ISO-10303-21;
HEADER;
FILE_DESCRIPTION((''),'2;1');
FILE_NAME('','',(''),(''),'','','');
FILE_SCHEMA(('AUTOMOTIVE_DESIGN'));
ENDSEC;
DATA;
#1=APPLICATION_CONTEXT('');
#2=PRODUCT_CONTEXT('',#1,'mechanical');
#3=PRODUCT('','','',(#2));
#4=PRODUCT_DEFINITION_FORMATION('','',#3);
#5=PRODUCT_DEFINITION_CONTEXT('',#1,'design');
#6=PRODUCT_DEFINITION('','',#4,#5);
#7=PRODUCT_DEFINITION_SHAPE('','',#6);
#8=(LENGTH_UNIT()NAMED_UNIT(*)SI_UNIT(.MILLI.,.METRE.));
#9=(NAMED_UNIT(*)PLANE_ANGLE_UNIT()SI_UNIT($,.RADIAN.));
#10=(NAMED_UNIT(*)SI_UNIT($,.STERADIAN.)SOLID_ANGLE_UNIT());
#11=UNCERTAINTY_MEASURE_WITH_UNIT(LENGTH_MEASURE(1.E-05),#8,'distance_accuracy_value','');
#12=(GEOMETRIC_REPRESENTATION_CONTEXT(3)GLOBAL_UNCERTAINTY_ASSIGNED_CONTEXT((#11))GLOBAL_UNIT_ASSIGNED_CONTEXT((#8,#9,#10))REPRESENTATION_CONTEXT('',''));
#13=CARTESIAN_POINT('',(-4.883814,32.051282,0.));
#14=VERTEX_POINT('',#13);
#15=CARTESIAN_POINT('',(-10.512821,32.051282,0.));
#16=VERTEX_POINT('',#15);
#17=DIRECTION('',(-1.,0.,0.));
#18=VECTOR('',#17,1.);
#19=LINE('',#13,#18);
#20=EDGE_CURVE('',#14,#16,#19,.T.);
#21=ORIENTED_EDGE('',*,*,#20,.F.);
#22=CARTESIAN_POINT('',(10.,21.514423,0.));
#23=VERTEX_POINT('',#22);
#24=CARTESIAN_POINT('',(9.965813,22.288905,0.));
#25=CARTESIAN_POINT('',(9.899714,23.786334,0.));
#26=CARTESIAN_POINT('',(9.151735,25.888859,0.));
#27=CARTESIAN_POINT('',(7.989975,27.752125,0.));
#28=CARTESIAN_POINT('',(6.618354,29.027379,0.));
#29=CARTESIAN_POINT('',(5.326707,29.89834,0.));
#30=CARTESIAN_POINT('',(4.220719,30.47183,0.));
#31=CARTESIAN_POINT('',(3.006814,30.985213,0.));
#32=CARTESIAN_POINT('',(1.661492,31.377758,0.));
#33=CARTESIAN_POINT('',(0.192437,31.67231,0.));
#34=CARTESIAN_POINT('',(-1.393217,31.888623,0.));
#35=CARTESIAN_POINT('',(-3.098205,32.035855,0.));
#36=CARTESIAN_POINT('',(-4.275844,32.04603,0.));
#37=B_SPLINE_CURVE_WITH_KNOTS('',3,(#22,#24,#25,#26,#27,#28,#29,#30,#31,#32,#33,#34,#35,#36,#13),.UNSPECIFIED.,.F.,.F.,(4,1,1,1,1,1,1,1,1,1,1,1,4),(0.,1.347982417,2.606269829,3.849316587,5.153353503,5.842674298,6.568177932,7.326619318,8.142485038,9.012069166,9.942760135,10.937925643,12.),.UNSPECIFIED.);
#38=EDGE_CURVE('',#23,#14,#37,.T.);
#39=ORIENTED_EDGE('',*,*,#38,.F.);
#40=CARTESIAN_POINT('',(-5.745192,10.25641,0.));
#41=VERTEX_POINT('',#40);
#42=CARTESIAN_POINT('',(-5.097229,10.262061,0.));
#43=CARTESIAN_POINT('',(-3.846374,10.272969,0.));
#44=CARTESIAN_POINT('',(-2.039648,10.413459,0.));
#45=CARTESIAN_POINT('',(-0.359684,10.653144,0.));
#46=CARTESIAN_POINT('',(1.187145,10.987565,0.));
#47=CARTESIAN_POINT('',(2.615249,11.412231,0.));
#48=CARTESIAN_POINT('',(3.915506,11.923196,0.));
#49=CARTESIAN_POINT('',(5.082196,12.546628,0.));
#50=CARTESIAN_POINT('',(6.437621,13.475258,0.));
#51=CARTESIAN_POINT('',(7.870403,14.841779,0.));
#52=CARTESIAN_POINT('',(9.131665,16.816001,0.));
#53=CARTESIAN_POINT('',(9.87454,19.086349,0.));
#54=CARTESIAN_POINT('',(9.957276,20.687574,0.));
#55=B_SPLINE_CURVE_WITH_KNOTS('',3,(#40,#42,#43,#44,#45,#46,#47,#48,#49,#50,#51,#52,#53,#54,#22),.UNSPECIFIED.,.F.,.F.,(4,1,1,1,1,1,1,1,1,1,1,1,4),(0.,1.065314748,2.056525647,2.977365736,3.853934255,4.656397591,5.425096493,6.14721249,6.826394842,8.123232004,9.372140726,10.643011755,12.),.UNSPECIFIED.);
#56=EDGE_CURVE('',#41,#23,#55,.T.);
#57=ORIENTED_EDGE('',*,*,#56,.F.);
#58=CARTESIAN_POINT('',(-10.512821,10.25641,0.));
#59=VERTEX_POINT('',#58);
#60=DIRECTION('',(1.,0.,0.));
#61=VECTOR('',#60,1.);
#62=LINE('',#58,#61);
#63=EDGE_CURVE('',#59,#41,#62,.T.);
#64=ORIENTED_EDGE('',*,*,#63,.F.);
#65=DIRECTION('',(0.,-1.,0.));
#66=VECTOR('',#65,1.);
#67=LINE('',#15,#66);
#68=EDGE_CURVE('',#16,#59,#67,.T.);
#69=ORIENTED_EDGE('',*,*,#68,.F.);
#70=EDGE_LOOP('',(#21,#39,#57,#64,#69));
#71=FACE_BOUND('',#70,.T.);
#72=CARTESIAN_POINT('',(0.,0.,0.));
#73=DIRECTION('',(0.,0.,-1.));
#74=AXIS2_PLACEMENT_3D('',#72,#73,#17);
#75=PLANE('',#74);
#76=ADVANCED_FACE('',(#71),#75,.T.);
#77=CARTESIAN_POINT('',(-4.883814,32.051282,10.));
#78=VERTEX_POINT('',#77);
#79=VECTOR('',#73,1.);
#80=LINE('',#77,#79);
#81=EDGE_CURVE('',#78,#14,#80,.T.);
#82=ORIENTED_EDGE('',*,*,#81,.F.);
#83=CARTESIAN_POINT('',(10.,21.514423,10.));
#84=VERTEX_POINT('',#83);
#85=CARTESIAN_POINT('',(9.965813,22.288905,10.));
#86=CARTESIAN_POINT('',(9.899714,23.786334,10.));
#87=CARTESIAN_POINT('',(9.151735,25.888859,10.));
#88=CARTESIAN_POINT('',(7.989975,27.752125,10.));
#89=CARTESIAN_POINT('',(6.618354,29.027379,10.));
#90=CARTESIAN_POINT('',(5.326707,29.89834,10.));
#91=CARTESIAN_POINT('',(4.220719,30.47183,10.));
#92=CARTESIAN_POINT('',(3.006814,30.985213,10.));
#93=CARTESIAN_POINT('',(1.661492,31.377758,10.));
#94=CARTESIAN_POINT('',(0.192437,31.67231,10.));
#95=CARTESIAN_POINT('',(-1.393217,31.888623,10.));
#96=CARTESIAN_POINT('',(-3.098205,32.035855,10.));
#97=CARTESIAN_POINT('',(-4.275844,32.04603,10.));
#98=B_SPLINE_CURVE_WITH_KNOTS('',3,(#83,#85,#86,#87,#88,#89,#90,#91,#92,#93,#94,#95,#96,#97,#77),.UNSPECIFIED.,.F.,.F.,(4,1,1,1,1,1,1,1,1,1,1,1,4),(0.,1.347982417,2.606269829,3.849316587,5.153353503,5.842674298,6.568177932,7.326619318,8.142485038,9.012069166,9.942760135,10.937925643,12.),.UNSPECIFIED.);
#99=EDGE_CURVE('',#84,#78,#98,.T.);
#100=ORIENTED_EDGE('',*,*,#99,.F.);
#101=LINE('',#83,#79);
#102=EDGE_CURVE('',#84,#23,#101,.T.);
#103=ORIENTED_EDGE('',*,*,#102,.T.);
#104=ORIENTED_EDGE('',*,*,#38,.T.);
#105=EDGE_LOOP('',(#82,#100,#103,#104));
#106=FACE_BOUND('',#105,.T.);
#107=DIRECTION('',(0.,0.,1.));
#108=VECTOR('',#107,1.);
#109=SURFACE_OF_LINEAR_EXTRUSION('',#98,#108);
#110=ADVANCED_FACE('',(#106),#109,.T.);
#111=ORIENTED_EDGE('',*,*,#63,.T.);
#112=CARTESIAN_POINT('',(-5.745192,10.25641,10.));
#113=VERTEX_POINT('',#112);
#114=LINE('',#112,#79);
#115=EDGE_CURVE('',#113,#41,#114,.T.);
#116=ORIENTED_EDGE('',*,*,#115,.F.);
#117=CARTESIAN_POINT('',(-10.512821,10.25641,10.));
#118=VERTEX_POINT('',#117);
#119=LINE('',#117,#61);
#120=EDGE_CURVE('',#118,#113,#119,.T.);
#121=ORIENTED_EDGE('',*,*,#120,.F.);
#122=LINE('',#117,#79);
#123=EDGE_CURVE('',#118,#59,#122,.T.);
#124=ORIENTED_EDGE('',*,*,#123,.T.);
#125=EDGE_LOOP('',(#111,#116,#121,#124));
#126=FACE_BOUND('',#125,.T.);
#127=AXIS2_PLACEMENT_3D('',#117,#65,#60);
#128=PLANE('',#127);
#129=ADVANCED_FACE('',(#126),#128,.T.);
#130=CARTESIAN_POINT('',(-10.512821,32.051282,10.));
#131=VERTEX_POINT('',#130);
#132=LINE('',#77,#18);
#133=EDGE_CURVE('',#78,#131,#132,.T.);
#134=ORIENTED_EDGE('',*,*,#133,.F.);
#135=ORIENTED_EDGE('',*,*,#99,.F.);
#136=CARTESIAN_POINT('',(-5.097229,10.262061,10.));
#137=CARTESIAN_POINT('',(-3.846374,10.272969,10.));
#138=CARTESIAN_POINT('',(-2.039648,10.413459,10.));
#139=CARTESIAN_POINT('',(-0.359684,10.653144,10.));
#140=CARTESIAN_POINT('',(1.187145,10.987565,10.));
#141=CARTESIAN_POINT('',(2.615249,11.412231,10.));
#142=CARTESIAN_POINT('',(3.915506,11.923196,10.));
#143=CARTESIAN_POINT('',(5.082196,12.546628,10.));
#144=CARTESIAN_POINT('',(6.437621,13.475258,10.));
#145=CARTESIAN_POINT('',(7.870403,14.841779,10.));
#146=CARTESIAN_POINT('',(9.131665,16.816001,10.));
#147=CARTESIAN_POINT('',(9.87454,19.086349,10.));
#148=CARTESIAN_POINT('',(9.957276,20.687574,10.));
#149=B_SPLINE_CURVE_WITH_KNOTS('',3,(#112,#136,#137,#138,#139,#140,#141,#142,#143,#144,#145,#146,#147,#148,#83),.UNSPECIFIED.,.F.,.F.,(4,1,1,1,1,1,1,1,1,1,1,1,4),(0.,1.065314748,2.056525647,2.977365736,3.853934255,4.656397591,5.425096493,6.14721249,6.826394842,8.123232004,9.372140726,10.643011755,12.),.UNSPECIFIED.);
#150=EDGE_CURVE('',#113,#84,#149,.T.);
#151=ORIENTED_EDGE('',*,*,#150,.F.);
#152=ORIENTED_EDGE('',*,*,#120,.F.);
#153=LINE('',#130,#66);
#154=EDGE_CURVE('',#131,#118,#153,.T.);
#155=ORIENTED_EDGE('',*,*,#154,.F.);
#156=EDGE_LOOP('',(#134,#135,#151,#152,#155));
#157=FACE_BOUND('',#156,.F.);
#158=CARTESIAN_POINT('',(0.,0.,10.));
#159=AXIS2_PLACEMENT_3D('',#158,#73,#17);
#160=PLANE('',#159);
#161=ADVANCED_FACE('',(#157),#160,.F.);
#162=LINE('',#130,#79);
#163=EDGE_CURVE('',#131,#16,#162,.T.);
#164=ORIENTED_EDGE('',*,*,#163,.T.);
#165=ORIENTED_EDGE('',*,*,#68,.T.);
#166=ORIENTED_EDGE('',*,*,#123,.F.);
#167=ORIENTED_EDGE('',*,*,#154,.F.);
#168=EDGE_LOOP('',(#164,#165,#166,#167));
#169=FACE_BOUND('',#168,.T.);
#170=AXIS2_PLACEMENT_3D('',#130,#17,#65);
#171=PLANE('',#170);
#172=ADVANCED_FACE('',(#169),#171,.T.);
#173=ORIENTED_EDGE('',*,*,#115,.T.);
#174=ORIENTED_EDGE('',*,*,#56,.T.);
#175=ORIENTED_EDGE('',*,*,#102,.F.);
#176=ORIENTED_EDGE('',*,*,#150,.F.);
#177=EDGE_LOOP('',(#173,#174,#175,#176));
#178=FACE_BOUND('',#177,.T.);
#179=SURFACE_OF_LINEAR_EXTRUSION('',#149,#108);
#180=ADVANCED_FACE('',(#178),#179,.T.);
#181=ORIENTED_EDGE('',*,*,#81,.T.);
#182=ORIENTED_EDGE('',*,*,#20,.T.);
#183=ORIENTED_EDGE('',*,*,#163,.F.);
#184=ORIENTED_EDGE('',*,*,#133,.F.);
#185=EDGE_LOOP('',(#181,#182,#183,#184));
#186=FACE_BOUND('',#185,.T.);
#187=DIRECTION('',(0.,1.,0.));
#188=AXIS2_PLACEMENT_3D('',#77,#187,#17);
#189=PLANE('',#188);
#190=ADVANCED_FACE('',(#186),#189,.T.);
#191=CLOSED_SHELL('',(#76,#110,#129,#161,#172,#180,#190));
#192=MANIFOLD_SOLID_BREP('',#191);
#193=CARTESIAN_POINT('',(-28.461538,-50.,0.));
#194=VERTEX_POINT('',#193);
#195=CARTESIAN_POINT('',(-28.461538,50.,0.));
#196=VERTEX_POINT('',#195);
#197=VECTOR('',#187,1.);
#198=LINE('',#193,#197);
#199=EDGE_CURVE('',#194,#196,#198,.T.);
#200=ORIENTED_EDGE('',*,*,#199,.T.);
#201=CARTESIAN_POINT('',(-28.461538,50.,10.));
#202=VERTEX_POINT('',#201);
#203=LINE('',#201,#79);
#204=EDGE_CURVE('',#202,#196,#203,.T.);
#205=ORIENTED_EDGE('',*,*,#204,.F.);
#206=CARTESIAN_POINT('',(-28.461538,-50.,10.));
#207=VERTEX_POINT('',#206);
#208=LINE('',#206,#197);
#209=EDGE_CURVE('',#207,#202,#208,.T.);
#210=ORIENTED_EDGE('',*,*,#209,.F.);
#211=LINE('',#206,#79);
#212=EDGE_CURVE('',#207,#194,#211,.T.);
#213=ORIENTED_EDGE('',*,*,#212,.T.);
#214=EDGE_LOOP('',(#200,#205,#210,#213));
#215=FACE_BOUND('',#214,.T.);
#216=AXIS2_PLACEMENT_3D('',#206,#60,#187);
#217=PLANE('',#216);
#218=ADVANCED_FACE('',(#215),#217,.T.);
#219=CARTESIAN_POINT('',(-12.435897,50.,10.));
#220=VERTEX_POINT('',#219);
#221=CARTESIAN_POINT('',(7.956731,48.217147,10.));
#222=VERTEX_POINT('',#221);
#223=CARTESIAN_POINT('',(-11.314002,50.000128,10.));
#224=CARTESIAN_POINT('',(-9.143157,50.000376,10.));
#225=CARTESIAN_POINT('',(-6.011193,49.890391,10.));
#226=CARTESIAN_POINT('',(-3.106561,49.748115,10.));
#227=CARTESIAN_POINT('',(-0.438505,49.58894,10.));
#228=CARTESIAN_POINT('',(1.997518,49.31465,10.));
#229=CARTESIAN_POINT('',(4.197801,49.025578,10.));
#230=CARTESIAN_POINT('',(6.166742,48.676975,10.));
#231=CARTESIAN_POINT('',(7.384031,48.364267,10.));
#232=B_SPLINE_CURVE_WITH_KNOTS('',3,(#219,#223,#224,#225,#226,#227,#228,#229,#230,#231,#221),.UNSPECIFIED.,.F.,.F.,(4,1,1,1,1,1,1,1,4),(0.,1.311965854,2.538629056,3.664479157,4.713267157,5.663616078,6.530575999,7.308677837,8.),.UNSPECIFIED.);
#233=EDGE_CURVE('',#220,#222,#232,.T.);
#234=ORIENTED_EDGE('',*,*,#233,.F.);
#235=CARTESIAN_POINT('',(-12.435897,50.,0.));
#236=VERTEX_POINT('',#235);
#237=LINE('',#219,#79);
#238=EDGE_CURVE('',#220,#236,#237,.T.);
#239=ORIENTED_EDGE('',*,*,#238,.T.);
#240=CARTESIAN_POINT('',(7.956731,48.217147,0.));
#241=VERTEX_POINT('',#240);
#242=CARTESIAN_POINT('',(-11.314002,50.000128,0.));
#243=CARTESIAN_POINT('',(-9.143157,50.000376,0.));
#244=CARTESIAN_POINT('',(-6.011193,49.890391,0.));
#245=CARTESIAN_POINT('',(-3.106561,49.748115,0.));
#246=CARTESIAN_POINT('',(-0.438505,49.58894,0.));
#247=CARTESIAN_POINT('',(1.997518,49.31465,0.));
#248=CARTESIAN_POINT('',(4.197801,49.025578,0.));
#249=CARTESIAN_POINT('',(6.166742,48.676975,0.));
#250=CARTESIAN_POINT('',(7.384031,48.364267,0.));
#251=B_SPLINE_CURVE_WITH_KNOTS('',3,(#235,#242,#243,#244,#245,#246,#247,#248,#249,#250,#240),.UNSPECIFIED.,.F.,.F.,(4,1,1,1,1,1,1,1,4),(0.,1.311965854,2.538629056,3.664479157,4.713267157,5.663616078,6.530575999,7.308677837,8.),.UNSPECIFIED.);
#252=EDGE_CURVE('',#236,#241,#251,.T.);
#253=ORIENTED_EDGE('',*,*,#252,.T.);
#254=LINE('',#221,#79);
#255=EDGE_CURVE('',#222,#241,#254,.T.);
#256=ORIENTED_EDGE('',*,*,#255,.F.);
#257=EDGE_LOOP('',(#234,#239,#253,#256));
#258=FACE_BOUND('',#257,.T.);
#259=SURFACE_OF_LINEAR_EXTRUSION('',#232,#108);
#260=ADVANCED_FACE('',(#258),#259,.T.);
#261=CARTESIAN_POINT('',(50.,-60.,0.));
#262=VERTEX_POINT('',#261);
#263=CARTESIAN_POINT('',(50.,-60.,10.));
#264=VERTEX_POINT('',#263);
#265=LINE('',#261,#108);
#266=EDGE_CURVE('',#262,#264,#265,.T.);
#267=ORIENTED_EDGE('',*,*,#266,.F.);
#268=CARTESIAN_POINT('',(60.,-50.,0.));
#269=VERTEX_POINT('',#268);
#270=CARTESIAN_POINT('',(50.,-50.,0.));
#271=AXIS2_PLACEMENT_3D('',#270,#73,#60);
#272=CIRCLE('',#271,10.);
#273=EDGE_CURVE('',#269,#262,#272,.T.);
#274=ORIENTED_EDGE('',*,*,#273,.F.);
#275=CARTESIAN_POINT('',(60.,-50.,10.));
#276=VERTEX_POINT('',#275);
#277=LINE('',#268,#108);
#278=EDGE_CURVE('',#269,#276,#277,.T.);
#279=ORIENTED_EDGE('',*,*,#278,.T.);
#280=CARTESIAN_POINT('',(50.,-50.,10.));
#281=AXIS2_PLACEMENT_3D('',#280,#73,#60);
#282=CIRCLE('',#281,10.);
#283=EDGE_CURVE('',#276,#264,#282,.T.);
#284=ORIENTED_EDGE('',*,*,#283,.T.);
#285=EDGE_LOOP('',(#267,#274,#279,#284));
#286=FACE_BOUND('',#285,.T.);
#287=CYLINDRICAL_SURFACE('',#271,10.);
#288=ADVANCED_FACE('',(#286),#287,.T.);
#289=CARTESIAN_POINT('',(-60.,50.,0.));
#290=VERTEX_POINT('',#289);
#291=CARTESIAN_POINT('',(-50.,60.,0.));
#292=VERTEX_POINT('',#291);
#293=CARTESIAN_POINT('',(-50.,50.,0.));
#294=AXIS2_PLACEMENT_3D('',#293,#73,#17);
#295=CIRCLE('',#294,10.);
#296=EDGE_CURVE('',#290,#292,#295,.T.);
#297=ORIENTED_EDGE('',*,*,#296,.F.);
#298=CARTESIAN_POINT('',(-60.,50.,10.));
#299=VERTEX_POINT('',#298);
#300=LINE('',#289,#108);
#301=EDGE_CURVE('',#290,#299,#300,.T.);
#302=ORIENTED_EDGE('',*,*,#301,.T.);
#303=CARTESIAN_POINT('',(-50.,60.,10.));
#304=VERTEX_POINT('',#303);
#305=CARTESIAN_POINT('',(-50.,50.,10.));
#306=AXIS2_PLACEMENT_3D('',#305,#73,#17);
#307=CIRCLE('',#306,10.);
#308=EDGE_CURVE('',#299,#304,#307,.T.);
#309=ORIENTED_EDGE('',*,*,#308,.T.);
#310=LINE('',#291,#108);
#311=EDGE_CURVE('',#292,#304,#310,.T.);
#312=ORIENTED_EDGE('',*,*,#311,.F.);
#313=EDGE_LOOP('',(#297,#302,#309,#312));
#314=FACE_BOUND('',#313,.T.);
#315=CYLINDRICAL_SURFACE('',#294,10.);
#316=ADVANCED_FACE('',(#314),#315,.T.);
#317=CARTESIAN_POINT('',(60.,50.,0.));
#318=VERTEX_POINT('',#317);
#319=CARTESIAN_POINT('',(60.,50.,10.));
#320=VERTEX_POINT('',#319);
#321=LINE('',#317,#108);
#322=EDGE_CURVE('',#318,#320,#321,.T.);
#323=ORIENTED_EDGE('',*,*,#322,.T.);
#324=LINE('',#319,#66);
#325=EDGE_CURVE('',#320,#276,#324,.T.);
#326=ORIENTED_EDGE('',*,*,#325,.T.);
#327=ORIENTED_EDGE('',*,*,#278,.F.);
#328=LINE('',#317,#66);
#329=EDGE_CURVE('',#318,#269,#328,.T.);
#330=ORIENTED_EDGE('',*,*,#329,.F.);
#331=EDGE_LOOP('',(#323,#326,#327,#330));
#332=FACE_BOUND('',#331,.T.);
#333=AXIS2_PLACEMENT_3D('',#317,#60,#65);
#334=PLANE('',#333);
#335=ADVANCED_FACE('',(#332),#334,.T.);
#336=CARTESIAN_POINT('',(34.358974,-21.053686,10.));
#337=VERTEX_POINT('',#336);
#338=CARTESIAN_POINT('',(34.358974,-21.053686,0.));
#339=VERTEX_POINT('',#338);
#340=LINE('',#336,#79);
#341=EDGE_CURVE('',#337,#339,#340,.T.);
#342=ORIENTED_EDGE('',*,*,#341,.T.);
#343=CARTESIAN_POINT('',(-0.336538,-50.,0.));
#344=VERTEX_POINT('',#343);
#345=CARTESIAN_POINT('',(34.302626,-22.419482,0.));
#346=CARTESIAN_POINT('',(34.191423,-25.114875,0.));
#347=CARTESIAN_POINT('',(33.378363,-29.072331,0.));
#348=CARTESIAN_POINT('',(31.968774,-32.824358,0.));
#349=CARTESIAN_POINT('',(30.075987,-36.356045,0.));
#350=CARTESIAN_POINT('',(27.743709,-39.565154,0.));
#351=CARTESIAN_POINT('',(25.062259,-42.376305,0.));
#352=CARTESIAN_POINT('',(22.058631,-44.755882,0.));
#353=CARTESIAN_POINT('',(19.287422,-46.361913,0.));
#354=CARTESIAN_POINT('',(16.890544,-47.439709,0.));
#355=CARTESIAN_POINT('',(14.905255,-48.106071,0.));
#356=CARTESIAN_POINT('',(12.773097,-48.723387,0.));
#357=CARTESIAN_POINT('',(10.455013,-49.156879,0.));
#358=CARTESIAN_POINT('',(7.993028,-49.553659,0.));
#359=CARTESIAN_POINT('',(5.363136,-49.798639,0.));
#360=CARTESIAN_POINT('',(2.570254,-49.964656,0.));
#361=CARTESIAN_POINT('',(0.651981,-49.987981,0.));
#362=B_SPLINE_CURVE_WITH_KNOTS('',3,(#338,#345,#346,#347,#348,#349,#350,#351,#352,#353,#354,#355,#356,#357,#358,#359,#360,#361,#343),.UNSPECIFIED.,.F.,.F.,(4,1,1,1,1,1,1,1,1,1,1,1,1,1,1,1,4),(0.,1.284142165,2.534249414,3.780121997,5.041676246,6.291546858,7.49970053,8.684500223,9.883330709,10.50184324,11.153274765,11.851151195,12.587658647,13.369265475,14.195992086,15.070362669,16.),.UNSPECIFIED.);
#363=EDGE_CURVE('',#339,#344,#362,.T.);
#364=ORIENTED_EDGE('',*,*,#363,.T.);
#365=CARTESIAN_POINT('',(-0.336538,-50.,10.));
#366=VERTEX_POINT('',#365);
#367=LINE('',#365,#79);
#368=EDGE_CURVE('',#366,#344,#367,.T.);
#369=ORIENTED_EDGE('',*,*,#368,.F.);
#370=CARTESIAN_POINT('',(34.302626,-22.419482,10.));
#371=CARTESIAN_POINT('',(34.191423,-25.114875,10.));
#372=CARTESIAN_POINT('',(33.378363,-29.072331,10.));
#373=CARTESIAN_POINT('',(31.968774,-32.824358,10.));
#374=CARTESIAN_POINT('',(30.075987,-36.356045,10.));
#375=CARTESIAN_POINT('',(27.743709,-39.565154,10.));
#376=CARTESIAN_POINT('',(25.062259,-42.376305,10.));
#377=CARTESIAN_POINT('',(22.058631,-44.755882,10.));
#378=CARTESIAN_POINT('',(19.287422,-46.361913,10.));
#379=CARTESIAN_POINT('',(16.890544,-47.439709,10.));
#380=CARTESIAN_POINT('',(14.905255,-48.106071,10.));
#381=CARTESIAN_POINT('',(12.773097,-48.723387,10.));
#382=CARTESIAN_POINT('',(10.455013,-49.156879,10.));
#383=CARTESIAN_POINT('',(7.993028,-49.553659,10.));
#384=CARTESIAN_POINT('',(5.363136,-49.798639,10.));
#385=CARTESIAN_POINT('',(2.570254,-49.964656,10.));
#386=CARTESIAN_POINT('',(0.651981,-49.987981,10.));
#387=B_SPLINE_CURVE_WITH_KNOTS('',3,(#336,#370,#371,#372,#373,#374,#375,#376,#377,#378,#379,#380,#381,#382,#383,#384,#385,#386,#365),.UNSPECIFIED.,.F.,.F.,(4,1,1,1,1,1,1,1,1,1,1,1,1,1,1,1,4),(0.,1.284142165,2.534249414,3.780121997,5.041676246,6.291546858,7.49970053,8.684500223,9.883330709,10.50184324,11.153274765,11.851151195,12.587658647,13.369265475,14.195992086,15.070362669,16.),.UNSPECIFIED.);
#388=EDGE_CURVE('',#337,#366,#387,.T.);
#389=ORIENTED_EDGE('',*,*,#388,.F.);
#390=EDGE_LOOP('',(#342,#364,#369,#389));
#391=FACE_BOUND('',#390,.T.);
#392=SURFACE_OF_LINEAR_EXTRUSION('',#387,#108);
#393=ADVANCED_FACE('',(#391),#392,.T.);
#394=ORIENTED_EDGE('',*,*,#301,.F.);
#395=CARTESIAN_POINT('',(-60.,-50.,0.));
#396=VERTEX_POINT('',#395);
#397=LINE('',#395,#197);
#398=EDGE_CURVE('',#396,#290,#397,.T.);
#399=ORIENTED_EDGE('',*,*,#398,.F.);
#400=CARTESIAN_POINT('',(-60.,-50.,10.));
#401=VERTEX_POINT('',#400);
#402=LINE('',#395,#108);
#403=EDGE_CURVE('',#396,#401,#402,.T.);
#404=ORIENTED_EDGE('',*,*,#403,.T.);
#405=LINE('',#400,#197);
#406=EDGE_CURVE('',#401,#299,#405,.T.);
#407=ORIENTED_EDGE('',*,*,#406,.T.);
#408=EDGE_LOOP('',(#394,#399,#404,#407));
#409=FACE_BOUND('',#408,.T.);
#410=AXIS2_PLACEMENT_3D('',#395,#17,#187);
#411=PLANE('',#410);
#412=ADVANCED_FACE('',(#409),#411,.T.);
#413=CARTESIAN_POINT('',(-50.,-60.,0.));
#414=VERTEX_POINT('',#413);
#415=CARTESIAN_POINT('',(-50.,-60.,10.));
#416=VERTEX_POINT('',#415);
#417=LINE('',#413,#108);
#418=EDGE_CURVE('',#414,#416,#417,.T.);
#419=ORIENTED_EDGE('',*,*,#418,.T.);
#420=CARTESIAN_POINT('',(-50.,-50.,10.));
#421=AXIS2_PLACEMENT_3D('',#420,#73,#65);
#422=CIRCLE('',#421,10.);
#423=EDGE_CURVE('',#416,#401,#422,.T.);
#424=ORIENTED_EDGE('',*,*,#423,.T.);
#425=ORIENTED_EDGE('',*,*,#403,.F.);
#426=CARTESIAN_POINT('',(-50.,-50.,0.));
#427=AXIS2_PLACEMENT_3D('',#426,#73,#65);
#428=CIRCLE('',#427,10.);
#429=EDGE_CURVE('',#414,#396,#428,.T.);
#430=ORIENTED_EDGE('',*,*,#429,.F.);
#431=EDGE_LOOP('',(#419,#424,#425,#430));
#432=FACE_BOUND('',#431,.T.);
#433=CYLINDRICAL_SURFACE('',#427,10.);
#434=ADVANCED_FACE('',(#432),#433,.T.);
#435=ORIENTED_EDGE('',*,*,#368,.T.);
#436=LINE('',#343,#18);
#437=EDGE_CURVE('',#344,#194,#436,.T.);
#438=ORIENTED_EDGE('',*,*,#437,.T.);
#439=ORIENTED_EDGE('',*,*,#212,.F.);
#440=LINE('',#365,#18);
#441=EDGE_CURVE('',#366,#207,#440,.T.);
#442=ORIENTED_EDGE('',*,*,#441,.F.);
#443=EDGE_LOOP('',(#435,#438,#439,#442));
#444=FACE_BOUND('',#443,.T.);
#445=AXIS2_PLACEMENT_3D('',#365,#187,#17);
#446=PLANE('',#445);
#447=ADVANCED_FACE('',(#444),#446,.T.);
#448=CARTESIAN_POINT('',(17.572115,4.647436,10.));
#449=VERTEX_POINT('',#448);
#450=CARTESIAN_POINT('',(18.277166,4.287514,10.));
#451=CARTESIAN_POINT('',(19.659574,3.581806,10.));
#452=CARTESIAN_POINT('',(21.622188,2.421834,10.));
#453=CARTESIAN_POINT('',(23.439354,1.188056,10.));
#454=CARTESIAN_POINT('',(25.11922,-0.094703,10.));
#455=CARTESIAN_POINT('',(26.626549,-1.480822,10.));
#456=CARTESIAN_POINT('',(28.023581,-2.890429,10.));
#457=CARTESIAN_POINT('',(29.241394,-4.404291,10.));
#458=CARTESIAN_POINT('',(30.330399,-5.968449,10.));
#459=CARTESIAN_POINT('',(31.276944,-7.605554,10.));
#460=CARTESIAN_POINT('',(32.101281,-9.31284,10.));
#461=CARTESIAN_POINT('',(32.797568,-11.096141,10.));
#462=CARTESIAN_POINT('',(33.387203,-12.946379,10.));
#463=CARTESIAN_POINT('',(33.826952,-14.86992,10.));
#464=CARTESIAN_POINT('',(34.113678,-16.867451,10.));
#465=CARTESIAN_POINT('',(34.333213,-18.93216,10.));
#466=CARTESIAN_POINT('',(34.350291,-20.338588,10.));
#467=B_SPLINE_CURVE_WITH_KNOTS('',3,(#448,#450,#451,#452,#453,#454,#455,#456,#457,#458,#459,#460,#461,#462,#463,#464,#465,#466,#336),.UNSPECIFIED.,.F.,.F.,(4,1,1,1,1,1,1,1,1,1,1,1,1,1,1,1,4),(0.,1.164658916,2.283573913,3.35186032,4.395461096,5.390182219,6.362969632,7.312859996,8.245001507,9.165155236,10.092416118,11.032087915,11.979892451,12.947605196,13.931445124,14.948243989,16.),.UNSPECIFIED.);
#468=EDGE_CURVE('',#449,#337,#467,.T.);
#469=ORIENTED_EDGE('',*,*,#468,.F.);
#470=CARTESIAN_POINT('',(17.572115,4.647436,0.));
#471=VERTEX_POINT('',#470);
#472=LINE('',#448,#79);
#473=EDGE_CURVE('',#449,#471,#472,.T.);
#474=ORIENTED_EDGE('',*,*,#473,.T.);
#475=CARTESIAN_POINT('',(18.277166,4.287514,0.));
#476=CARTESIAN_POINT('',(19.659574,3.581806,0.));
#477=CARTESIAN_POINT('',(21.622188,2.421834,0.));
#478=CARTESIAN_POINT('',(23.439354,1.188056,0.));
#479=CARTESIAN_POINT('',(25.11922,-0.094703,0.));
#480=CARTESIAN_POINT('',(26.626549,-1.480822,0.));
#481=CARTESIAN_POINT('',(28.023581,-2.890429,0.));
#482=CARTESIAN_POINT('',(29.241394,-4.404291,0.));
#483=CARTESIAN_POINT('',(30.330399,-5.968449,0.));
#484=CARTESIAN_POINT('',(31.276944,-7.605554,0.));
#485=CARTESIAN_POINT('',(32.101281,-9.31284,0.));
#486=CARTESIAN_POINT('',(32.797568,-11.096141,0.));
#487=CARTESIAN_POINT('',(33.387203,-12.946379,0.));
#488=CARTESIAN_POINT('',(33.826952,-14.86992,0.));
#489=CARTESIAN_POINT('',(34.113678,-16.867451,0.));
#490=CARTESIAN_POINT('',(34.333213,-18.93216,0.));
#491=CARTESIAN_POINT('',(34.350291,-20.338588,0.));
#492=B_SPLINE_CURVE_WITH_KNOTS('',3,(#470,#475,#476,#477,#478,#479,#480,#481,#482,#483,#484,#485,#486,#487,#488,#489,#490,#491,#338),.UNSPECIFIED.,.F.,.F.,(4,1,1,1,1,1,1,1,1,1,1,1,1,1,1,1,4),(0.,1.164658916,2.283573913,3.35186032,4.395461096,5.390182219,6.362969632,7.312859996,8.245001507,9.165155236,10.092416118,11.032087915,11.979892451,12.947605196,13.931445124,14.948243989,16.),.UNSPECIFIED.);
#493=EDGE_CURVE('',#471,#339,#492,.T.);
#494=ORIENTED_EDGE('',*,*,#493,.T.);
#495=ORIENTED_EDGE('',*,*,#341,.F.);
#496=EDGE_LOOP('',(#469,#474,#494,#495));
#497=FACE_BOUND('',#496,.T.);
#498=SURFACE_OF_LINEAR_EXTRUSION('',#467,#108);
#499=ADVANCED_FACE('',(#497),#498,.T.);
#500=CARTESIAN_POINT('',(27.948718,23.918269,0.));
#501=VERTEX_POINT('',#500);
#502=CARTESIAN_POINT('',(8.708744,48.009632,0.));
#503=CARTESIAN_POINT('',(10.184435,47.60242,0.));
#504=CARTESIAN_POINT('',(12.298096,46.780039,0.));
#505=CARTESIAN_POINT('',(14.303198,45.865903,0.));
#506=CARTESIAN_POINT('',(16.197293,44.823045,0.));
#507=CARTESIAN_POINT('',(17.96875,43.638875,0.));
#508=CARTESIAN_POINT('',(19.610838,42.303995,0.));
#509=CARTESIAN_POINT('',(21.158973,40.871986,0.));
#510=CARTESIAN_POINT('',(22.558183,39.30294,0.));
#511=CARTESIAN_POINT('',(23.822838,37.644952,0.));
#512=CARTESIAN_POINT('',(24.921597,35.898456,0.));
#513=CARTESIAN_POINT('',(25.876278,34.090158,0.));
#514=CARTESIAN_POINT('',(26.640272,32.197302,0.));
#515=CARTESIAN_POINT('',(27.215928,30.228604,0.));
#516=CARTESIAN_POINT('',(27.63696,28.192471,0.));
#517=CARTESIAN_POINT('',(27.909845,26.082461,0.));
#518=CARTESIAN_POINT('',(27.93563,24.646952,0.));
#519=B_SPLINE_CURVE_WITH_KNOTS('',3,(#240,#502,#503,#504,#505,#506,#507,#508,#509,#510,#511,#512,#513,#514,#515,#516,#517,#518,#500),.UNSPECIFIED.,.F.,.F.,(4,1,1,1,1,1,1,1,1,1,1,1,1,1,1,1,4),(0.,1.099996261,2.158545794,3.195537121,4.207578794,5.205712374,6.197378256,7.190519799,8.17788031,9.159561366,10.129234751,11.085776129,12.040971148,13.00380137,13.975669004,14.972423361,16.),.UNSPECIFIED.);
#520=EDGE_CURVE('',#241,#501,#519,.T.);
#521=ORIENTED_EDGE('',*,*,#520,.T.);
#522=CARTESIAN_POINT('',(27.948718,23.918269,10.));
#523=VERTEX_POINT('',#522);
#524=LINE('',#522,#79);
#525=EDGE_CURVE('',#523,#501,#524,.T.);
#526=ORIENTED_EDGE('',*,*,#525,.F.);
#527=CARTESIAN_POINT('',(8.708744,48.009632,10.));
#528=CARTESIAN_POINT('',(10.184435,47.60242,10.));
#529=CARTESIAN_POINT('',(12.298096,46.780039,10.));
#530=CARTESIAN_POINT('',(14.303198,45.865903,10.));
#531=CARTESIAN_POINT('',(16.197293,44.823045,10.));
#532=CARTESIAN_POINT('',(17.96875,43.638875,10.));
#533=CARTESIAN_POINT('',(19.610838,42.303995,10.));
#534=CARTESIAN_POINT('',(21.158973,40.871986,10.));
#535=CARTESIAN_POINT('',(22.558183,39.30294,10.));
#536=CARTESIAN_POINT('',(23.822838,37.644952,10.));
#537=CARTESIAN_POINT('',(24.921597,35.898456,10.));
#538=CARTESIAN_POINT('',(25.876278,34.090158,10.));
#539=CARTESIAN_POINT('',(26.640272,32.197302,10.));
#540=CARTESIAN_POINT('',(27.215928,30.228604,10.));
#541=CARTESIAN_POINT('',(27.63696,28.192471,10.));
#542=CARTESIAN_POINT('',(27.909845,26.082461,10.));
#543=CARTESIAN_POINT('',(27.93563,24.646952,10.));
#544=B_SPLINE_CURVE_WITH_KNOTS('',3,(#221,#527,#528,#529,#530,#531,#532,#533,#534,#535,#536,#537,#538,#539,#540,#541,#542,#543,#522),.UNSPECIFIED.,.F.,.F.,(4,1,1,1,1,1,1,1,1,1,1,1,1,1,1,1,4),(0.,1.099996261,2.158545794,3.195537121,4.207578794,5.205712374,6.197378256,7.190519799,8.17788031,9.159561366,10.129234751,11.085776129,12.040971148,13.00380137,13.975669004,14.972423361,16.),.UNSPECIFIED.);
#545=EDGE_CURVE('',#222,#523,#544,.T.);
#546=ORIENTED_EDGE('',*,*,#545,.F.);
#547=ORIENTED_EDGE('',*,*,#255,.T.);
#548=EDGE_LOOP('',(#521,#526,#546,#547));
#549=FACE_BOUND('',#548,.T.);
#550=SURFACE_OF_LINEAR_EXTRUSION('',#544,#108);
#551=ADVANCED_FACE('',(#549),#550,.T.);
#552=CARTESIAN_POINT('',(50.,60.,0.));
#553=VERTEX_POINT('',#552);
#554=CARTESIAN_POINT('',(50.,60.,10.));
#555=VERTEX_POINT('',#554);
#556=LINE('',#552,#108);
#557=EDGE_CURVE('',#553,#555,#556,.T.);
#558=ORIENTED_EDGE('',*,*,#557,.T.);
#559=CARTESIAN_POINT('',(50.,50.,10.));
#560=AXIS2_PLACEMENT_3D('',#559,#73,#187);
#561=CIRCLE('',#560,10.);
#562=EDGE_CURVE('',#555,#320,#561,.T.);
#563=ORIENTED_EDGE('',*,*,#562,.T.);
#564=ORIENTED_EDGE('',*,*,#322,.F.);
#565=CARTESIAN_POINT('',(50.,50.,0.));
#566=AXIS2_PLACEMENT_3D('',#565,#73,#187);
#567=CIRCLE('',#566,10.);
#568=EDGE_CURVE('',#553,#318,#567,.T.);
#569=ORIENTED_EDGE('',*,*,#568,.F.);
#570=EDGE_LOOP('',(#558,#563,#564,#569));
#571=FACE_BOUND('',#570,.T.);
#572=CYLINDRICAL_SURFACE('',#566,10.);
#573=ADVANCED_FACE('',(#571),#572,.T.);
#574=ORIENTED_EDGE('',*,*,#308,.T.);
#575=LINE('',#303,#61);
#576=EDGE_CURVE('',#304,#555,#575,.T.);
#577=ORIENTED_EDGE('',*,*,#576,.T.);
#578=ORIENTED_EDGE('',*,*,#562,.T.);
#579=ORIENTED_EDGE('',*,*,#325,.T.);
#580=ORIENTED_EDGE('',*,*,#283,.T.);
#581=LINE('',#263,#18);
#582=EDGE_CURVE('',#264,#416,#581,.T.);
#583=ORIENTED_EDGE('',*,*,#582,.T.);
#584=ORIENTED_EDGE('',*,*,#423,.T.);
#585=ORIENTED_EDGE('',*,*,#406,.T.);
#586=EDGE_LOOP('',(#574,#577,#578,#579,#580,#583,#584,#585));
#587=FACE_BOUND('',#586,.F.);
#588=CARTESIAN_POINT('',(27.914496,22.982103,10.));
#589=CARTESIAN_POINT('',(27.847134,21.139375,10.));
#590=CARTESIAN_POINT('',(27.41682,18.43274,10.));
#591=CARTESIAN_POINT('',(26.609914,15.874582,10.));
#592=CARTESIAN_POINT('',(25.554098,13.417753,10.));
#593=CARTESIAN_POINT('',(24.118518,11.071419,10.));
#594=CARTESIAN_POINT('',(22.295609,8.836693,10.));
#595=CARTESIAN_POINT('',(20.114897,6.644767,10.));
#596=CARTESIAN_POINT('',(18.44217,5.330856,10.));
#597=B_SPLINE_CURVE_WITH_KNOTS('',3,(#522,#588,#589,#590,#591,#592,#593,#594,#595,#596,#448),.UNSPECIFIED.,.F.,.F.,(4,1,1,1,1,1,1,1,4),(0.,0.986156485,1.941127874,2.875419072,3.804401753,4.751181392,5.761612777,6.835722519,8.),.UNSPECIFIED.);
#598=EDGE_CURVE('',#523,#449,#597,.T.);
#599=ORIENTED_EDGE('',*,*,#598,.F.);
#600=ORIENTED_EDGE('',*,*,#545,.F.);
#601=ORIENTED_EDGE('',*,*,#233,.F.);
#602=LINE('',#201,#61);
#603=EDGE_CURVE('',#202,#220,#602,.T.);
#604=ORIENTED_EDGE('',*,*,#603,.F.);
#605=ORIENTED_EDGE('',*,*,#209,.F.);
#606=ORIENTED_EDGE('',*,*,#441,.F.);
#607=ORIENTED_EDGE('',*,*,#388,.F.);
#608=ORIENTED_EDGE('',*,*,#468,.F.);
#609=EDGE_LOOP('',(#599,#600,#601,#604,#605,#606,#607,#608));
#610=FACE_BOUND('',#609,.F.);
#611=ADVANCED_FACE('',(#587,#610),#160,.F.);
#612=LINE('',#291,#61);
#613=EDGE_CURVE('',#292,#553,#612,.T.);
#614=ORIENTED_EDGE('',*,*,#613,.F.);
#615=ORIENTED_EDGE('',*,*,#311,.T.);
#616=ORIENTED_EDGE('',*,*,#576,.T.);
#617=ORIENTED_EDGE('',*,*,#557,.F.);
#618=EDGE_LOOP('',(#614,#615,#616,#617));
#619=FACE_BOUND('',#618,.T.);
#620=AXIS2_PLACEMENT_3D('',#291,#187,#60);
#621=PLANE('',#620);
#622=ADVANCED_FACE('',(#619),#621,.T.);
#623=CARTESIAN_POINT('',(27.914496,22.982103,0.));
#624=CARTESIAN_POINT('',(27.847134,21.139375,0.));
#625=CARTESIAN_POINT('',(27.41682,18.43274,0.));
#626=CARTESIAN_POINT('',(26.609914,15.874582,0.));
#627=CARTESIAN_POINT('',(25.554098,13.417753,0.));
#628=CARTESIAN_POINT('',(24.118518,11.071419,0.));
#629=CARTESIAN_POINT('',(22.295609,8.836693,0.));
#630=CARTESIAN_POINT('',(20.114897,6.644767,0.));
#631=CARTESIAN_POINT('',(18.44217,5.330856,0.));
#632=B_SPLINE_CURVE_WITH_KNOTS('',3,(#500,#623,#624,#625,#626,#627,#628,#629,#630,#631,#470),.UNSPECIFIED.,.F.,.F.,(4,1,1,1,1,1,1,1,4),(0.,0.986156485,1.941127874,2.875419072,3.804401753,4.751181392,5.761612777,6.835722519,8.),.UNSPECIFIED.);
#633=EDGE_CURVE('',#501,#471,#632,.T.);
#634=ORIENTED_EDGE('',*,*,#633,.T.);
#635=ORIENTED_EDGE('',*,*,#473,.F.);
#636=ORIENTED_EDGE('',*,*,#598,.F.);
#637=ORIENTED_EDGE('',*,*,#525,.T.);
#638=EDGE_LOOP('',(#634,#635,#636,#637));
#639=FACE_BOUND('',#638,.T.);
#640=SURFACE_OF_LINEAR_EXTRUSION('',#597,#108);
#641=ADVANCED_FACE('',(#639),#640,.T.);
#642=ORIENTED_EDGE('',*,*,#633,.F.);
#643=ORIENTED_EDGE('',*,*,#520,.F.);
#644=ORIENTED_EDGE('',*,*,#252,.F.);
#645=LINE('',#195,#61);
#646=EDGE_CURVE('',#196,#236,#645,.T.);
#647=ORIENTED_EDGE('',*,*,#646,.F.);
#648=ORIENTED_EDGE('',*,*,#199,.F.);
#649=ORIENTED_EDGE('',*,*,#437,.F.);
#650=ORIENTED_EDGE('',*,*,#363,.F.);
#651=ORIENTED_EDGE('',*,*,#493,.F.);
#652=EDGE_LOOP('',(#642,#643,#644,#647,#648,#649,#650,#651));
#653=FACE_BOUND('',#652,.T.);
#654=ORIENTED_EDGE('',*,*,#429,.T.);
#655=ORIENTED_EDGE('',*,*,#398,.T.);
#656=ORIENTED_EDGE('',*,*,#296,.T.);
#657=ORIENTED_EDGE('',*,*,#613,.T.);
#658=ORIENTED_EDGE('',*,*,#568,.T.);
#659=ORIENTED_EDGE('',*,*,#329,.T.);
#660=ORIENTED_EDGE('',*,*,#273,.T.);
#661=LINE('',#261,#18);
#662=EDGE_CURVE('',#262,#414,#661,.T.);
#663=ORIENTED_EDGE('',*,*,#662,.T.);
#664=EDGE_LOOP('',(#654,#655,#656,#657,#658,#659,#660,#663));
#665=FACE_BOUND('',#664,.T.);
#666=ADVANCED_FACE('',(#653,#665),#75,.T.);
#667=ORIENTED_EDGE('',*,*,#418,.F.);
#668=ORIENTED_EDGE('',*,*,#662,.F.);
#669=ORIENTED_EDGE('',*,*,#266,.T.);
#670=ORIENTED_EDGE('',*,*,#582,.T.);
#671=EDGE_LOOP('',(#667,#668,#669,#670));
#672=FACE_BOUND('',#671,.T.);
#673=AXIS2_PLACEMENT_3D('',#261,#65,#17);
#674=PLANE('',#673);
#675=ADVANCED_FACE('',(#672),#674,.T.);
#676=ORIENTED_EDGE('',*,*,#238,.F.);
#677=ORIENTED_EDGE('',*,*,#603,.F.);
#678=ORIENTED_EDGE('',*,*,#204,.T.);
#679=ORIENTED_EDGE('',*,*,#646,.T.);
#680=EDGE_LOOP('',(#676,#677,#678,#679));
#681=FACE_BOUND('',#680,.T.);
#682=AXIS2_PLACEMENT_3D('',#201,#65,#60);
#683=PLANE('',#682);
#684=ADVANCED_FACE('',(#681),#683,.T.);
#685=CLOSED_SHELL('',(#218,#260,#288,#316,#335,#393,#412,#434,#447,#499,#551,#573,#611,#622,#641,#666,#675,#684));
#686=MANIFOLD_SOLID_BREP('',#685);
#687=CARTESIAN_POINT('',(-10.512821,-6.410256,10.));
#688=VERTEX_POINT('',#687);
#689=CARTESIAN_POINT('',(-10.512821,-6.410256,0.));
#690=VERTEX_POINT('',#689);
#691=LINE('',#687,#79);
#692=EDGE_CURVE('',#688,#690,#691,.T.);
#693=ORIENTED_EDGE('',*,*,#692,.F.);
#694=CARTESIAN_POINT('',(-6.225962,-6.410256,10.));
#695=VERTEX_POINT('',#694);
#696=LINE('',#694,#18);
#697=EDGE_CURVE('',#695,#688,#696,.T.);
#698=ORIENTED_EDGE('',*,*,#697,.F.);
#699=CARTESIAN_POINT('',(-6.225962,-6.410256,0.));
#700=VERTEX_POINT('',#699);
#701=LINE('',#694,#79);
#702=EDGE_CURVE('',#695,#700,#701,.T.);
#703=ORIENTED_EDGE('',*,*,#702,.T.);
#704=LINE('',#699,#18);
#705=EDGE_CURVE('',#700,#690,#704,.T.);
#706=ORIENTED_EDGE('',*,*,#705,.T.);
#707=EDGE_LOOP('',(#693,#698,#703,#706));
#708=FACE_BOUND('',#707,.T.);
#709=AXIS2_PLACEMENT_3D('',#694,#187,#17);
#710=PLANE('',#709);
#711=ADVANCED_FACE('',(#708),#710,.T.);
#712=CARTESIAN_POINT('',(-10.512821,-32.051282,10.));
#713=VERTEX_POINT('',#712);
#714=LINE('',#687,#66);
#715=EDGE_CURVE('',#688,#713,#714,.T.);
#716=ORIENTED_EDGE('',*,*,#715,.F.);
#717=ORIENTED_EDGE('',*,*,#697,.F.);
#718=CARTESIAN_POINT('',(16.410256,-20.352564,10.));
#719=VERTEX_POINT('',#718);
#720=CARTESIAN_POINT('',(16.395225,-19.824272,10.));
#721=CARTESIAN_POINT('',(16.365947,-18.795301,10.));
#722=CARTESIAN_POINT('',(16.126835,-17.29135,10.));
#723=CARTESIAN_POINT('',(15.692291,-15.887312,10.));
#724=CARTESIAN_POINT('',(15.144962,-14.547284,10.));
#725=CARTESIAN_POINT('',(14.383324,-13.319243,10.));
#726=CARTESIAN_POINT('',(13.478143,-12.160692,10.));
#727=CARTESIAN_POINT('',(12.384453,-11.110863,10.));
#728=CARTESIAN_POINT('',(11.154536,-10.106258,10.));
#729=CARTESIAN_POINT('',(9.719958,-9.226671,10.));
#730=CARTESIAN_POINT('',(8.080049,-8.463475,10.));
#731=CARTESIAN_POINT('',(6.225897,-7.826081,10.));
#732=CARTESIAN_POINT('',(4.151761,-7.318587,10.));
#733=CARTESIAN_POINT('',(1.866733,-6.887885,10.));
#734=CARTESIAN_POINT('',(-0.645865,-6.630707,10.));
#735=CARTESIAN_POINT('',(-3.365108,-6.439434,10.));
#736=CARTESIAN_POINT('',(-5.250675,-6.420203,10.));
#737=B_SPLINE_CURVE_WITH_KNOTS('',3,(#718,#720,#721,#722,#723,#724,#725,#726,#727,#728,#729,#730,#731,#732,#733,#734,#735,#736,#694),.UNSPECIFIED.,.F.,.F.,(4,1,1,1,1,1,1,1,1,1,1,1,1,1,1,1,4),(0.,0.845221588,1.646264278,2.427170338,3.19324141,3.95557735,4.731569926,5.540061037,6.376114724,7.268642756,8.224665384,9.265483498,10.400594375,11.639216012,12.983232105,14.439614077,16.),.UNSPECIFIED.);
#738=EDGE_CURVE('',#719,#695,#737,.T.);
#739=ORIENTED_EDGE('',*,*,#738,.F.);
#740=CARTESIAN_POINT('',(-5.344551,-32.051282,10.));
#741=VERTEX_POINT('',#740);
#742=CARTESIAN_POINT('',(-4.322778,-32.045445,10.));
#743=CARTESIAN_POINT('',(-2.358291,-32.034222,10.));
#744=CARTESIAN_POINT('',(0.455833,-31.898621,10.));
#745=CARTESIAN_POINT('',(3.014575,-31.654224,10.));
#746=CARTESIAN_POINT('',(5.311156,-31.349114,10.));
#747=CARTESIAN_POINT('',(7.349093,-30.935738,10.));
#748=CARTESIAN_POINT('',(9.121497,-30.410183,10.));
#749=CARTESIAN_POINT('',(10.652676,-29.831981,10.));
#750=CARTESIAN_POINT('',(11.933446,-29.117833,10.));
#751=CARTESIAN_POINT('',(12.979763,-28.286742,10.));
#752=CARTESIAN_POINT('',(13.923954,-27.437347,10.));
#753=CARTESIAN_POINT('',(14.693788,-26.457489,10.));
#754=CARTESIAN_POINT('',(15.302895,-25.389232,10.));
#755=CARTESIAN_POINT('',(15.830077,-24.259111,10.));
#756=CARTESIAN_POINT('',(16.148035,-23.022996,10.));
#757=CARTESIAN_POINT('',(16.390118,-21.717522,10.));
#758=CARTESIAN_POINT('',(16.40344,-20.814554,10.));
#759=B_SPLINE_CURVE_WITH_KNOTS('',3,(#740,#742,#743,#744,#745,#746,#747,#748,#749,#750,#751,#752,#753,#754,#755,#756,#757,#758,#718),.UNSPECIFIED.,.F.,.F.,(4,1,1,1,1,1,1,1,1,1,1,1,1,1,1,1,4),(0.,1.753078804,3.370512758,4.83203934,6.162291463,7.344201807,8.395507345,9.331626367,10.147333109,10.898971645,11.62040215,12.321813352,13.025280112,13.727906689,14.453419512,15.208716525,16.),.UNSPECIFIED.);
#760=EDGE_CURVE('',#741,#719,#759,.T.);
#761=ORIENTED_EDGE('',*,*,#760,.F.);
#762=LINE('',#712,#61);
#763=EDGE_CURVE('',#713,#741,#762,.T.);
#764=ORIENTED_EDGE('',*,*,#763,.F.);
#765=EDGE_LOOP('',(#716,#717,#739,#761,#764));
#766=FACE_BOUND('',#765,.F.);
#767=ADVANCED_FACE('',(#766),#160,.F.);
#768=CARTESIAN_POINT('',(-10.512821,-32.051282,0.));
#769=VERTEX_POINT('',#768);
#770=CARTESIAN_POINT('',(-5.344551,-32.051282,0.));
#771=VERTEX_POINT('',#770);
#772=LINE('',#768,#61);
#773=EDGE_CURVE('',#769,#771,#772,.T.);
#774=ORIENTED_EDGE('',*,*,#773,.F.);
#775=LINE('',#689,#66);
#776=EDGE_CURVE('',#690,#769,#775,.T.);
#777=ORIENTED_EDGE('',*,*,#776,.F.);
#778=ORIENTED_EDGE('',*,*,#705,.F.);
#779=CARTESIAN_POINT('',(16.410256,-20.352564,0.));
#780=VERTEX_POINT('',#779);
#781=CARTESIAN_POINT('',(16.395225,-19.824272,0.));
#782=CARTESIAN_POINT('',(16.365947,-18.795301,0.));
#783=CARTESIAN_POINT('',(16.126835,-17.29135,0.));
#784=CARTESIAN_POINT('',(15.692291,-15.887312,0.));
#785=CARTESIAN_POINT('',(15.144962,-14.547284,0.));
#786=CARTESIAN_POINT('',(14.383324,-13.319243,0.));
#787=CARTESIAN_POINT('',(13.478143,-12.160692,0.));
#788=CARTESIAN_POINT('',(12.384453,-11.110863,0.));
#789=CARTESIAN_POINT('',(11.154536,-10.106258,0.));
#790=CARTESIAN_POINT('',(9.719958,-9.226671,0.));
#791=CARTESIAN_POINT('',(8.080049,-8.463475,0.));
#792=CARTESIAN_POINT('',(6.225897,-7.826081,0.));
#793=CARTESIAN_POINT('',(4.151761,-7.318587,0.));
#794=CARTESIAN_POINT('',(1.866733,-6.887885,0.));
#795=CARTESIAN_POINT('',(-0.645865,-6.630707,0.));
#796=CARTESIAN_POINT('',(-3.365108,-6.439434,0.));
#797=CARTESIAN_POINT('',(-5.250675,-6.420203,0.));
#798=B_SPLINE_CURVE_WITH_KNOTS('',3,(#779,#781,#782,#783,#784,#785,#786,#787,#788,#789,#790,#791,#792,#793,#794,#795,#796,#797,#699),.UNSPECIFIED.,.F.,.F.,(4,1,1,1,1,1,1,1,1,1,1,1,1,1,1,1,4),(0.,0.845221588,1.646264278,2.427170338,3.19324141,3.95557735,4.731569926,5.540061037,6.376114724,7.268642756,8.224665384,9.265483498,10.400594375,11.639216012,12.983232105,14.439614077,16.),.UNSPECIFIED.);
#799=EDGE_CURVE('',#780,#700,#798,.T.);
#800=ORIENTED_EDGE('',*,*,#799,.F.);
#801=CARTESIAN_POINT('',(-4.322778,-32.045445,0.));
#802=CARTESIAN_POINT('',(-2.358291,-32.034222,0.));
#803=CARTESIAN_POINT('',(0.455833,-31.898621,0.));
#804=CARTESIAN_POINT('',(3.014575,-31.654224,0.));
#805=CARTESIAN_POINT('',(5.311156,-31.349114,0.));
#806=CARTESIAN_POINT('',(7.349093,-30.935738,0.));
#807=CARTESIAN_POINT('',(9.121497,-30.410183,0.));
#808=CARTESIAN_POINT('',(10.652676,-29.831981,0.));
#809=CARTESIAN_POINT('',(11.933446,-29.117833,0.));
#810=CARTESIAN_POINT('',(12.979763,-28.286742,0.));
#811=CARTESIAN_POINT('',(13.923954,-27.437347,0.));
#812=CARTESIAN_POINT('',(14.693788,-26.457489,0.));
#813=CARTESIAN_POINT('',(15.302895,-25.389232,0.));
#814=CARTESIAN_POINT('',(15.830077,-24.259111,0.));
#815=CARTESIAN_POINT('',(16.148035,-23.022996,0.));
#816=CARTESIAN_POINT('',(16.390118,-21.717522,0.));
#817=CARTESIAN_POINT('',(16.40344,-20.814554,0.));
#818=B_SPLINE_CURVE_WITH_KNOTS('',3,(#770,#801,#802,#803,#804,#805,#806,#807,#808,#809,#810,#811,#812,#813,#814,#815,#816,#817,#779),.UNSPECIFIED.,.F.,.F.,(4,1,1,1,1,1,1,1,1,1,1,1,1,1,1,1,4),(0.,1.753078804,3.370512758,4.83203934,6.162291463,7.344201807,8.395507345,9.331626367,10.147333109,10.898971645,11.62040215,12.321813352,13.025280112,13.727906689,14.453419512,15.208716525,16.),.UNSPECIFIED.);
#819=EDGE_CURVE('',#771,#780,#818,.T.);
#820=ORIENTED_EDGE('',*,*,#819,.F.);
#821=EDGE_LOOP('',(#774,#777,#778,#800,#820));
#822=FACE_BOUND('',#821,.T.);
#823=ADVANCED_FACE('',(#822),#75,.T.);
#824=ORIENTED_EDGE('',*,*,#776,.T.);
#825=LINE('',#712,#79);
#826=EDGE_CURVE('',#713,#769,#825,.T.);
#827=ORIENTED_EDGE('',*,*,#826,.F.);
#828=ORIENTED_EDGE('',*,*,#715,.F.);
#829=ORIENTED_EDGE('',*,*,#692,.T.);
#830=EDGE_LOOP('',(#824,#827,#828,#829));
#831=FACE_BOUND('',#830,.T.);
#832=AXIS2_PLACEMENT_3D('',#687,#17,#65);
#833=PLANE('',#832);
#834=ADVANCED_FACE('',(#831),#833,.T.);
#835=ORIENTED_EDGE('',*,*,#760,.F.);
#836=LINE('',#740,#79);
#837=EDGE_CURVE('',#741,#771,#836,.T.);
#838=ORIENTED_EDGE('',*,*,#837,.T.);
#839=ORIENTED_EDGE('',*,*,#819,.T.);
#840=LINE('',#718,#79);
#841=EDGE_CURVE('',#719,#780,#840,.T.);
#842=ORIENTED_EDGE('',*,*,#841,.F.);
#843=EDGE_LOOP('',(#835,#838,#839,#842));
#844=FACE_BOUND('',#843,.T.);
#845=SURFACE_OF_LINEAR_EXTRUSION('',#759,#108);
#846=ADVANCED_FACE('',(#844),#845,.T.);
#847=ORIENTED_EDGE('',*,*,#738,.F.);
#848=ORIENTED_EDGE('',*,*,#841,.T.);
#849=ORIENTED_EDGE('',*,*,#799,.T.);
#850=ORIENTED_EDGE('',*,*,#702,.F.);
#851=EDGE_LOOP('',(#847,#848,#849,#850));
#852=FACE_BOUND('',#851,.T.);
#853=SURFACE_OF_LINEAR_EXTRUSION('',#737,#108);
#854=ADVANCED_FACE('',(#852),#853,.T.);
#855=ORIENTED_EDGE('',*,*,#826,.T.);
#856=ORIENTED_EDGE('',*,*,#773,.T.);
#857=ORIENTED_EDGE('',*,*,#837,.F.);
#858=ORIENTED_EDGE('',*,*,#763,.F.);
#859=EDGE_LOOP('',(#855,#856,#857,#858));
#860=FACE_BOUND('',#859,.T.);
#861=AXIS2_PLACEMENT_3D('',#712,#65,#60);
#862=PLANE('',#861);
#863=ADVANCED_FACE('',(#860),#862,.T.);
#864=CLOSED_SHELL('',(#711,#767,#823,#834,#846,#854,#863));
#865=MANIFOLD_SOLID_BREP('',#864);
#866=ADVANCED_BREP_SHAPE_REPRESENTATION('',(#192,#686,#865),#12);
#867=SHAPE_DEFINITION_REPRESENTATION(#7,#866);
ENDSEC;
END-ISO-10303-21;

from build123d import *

# Parameters (mm, degrees)
BOSS_EXTRUDE1_DEPTH = 10
CUT_EXTRUDE15_DEPTH = 10


with BuildPart() as part:
    # Sketch1 → Boss-Extrude1 (new body)
    with BuildSketch(Plane.XY):
        with BuildLine():
            Line((-50, 60), (50, 60))
            ThreePointArc((50, 60), (57.071067812, 57.071067812), (60, 50))
            Line((60, 50), (60, -50))
            ThreePointArc((60, -50), (57.071067812, -57.071067812), (50, -60))
            Line((50, -60), (-50, -60))
            ThreePointArc((-50, -60), (-57.071067812, -57.071067812), (-60, -50))
            Line((-60, -50), (-60, 50))
            ThreePointArc((-60, 50), (-57.071067812, 57.071067812), (-50, 60))
        make_face()
    extrude(amount=BOSS_EXTRUDE1_DEPTH)

    # Sketch2 → Cut-Extrude15 (cut)
    with BuildSketch(Plane.XY.offset(10)):
        with BuildLine():
            Line((-28.461538462, -50), (-28.461538462, 50))
            Line((-28.461538462, 50), (-12.435897436, 50))
            add(Edge.make_bspline(
                [(-12.435897436, 50), (-11.31400236, 50.000128036), (-9.143156658, 50.000375783), (-6.011192849, 49.890391497), (-3.106560919, 49.748114501), (-0.438504531, 49.588939628), (1.99751753, 49.31464952), (4.197800896, 49.025577707), (6.166741746, 48.676974917), (7.384030882, 48.364267414), (7.956730769, 48.217147436)],
                knots=[0, 0, 0, 0, 1.311965854, 2.538629056, 3.664479157, 4.713267157, 5.663616078, 6.530575999, 7.308677837, 8, 8, 8, 8], degree=3))
            add(Edge.make_bspline(
                [(7.956730769, 48.217147436), (8.708743867, 48.009632086), (10.184434982, 47.602420351), (12.298095584, 46.780038653), (14.303197505, 45.865903091), (16.197292569, 44.823045384), (17.968750279, 43.638875319), (19.610838491, 42.303994965), (21.158972986, 40.871986363), (22.558183042, 39.302939838), (23.822838395, 37.644951536), (24.921597155, 35.898455894), (25.87627769, 34.09015797), (26.640272179, 32.197301538), (27.215927674, 30.228603714), (27.636959701, 28.192471141), (27.909845467, 26.082460996), (27.935629593, 24.646952129), (27.948717949, 23.918269231)],
                knots=[0, 0, 0, 0, 1.099996261, 2.158545794, 3.195537121, 4.207578794, 5.205712374, 6.197378256, 7.190519799, 8.17788031, 9.159561366, 10.129234751, 11.085776129, 12.040971148, 13.00380137, 13.975669004, 14.972423361, 16, 16, 16, 16], degree=3))
            add(Edge.make_bspline(
                [(27.948717949, 23.918269231), (27.914495785, 22.982102975), (27.847133662, 21.139374723), (27.416819828, 18.432740311), (26.609914344, 15.874581757), (25.554098144, 13.417753165), (24.118518204, 11.071418524), (22.295609324, 8.836693451), (20.114896658, 6.644767409), (18.442169661, 5.3308556), (17.572115385, 4.647435897)],
                knots=[0, 0, 0, 0, 0.986156485, 1.941127874, 2.875419072, 3.804401753, 4.751181392, 5.761612777, 6.835722519, 8, 8, 8, 8], degree=3))
            add(Edge.make_bspline(
                [(17.572115385, 4.647435897), (18.27716563, 4.287513861), (19.659574098, 3.581806327), (21.622187994, 2.421833806), (23.439354226, 1.188055915), (25.119220416, -0.09470324), (26.626549448, -1.480821676), (28.023581469, -2.890429347), (29.24139417, -4.40429091), (30.330398991, -5.968449455), (31.276944281, -7.605554181), (32.101280853, -9.312840386), (32.797568386, -11.096140531), (33.387202678, -12.946379062), (33.826952089, -14.869919934), (34.113678057, -16.867451086), (34.33321338, -18.932159921), (34.350291165, -20.338588018), (34.358974359, -21.053685897)],
                knots=[0, 0, 0, 0, 1.164658916, 2.283573913, 3.35186032, 4.395461096, 5.390182219, 6.362969632, 7.312859996, 8.245001507, 9.165155236, 10.092416118, 11.032087915, 11.979892451, 12.947605196, 13.931445124, 14.948243989, 16, 16, 16, 16], degree=3))
            add(Edge.make_bspline(
                [(34.358974359, -21.053685897), (34.302626235, -22.419481961), (34.191423437, -25.114875014), (33.378362843, -29.072331055), (31.968774121, -32.824358323), (30.075987135, -36.356044655), (27.74370939, -39.56515353), (25.062258807, -42.376305044), (22.058631442, -44.755882393), (19.287422161, -46.361912502), (16.890544368, -47.439708888), (14.905255274, -48.106070581), (12.773096869, -48.723387047), (10.455013131, -49.156879415), (7.993027757, -49.553659299), (5.363136234, -49.798639418), (2.570253782, -49.964656408), (0.651981386, -49.987980619), (-0.336538462, -50)],
                knots=[0, 0, 0, 0, 1.284142165, 2.534249414, 3.780121997, 5.041676246, 6.291546858, 7.49970053, 8.684500223, 9.883330709, 10.50184324, 11.153274765, 11.851151195, 12.587658647, 13.369265475, 14.195992086, 15.070362669, 16, 16, 16, 16], degree=3))
            Line((-0.336538462, -50), (-28.461538462, -50))
        make_face()
        with BuildLine():
            Line((-10.512820513, 32.051282051), (-10.512820513, 10.256410256))
            Line((-10.512820513, 10.256410256), (-5.745192308, 10.256410256))
            add(Edge.make_bspline(
                [(-5.745192308, 10.256410256), (-5.0972288, 10.262060743), (-3.846374462, 10.272968667), (-2.039648051, 10.413458929), (-0.359684264, 10.653144043), (1.187145157, 10.987565071), (2.615249492, 11.412231018), (3.915505598, 11.923195608), (5.082196484, 12.546627947), (6.437621453, 13.475257927), (7.87040339, 14.841778518), (9.131665215, 16.816000643), (9.874540008, 19.086348576), (9.957276223, 20.687573733), (10, 21.514423077)],
                knots=[0, 0, 0, 0, 1.065314748, 2.056525647, 2.977365736, 3.853934255, 4.656397591, 5.425096493, 6.14721249, 6.826394842, 8.123232004, 9.372140726, 10.643011755, 12, 12, 12, 12], degree=3))
            add(Edge.make_bspline(
                [(10, 21.514423077), (9.965813157, 22.288904867), (9.899714271, 23.786334284), (9.151734868, 25.888858547), (7.989974981, 27.75212535), (6.618354145, 29.027379101), (5.326706599, 29.898339815), (4.220718708, 30.471830356), (3.006813948, 30.985213227), (1.661492425, 31.377758282), (0.19243666, 31.67231027), (-1.39321732, 31.88862343), (-3.098205318, 32.035855369), (-4.275844156, 32.046029524), (-4.883814103, 32.051282051)],
                knots=[0, 0, 0, 0, 1.347982417, 2.606269829, 3.849316587, 5.153353503, 5.842674298, 6.568177932, 7.326619318, 8.142485038, 9.012069166, 9.942760135, 10.937925643, 12, 12, 12, 12], degree=3))
            Line((-4.883814103, 32.051282051), (-10.512820513, 32.051282051))
        make_face(mode=Mode.SUBTRACT)
        with BuildLine():
            Line((-10.512820513, -6.41025641), (-10.512820513, -32.051282051))
            Line((-10.512820513, -32.051282051), (-5.344551282, -32.051282051))
            add(Edge.make_bspline(
                [(-5.344551282, -32.051282051), (-4.322777875, -32.045444698), (-2.358290998, -32.034221657), (0.455832973, -31.898620639), (3.014575193, -31.654223695), (5.311155962, -31.349113799), (7.349092928, -30.935737612), (9.121497375, -30.410182767), (10.652675534, -29.831980898), (11.933446385, -29.117832939), (12.979762798, -28.286741812), (13.923953659, -27.437346715), (14.693788053, -26.457489223), (15.302895391, -25.389231902), (15.830076717, -24.259111036), (16.148035265, -23.02299581), (16.390117744, -21.717521716), (16.403440191, -20.814553517), (16.41025641, -20.352564103)],
                knots=[0, 0, 0, 0, 1.753078804, 3.370512758, 4.83203934, 6.162291463, 7.344201807, 8.395507345, 9.331626367, 10.147333109, 10.898971645, 11.62040215, 12.321813352, 13.025280112, 13.727906689, 14.453419512, 15.208716525, 16, 16, 16, 16], degree=3))
            add(Edge.make_bspline(
                [(16.41025641, -20.352564103), (16.39522469, -19.824271941), (16.365946943, -18.795300927), (16.126835227, -17.291349977), (15.692291132, -15.887311977), (15.144961643, -14.547283783), (14.383323578, -13.319243071), (13.478142767, -12.160692009), (12.384453267, -11.110862712), (11.154535621, -10.10625758), (9.719958456, -9.22667136), (8.080048709, -8.463474513), (6.225897499, -7.826080612), (4.151761396, -7.318587171), (1.866733252, -6.887884501), (-0.645865129, -6.630707462), (-3.365107955, -6.439433595), (-5.250675184, -6.420203131), (-6.225961538, -6.41025641)],
                knots=[0, 0, 0, 0, 0.845221588, 1.646264278, 2.427170338, 3.19324141, 3.95557735, 4.731569926, 5.540061037, 6.376114724, 7.268642756, 8.224665384, 9.265483498, 10.400594375, 11.639216012, 12.983232105, 14.439614077, 16, 16, 16, 16], degree=3))
            Line((-6.225961538, -6.41025641), (-10.512820513, -6.41025641))
        make_face(mode=Mode.SUBTRACT)
    extrude(amount=-CUT_EXTRUDE15_DEPTH, mode=Mode.SUBTRACT)


with BuildPart() as cut_extrude15_piece_1:
    # of the separate pieces the step leaves, piece 1, a body of its own (cut_extrude15_pieces)
    add(part.part.solids().sort_by_distance((-50, 60, 0))[0])


with BuildPart() as cut_extrude15_piece_2:
    # of the separate pieces the step leaves, piece 2, a body of its own (cut_extrude15_pieces)
    add(part.part.solids().sort_by_distance((-10.512820513, -6.41025641, 0))[0])


with BuildPart() as cut_extrude15_piece_3:
    # of the separate pieces the step leaves, piece 3, a body of its own (cut_extrude15_pieces)
    add(part.part.solids().sort_by_distance((-10.512820513, 32.051282051, 0))[0])


solid = Compound([cut_extrude15_piece_1.part, cut_extrude15_piece_2.part, cut_extrude15_piece_3.part])
